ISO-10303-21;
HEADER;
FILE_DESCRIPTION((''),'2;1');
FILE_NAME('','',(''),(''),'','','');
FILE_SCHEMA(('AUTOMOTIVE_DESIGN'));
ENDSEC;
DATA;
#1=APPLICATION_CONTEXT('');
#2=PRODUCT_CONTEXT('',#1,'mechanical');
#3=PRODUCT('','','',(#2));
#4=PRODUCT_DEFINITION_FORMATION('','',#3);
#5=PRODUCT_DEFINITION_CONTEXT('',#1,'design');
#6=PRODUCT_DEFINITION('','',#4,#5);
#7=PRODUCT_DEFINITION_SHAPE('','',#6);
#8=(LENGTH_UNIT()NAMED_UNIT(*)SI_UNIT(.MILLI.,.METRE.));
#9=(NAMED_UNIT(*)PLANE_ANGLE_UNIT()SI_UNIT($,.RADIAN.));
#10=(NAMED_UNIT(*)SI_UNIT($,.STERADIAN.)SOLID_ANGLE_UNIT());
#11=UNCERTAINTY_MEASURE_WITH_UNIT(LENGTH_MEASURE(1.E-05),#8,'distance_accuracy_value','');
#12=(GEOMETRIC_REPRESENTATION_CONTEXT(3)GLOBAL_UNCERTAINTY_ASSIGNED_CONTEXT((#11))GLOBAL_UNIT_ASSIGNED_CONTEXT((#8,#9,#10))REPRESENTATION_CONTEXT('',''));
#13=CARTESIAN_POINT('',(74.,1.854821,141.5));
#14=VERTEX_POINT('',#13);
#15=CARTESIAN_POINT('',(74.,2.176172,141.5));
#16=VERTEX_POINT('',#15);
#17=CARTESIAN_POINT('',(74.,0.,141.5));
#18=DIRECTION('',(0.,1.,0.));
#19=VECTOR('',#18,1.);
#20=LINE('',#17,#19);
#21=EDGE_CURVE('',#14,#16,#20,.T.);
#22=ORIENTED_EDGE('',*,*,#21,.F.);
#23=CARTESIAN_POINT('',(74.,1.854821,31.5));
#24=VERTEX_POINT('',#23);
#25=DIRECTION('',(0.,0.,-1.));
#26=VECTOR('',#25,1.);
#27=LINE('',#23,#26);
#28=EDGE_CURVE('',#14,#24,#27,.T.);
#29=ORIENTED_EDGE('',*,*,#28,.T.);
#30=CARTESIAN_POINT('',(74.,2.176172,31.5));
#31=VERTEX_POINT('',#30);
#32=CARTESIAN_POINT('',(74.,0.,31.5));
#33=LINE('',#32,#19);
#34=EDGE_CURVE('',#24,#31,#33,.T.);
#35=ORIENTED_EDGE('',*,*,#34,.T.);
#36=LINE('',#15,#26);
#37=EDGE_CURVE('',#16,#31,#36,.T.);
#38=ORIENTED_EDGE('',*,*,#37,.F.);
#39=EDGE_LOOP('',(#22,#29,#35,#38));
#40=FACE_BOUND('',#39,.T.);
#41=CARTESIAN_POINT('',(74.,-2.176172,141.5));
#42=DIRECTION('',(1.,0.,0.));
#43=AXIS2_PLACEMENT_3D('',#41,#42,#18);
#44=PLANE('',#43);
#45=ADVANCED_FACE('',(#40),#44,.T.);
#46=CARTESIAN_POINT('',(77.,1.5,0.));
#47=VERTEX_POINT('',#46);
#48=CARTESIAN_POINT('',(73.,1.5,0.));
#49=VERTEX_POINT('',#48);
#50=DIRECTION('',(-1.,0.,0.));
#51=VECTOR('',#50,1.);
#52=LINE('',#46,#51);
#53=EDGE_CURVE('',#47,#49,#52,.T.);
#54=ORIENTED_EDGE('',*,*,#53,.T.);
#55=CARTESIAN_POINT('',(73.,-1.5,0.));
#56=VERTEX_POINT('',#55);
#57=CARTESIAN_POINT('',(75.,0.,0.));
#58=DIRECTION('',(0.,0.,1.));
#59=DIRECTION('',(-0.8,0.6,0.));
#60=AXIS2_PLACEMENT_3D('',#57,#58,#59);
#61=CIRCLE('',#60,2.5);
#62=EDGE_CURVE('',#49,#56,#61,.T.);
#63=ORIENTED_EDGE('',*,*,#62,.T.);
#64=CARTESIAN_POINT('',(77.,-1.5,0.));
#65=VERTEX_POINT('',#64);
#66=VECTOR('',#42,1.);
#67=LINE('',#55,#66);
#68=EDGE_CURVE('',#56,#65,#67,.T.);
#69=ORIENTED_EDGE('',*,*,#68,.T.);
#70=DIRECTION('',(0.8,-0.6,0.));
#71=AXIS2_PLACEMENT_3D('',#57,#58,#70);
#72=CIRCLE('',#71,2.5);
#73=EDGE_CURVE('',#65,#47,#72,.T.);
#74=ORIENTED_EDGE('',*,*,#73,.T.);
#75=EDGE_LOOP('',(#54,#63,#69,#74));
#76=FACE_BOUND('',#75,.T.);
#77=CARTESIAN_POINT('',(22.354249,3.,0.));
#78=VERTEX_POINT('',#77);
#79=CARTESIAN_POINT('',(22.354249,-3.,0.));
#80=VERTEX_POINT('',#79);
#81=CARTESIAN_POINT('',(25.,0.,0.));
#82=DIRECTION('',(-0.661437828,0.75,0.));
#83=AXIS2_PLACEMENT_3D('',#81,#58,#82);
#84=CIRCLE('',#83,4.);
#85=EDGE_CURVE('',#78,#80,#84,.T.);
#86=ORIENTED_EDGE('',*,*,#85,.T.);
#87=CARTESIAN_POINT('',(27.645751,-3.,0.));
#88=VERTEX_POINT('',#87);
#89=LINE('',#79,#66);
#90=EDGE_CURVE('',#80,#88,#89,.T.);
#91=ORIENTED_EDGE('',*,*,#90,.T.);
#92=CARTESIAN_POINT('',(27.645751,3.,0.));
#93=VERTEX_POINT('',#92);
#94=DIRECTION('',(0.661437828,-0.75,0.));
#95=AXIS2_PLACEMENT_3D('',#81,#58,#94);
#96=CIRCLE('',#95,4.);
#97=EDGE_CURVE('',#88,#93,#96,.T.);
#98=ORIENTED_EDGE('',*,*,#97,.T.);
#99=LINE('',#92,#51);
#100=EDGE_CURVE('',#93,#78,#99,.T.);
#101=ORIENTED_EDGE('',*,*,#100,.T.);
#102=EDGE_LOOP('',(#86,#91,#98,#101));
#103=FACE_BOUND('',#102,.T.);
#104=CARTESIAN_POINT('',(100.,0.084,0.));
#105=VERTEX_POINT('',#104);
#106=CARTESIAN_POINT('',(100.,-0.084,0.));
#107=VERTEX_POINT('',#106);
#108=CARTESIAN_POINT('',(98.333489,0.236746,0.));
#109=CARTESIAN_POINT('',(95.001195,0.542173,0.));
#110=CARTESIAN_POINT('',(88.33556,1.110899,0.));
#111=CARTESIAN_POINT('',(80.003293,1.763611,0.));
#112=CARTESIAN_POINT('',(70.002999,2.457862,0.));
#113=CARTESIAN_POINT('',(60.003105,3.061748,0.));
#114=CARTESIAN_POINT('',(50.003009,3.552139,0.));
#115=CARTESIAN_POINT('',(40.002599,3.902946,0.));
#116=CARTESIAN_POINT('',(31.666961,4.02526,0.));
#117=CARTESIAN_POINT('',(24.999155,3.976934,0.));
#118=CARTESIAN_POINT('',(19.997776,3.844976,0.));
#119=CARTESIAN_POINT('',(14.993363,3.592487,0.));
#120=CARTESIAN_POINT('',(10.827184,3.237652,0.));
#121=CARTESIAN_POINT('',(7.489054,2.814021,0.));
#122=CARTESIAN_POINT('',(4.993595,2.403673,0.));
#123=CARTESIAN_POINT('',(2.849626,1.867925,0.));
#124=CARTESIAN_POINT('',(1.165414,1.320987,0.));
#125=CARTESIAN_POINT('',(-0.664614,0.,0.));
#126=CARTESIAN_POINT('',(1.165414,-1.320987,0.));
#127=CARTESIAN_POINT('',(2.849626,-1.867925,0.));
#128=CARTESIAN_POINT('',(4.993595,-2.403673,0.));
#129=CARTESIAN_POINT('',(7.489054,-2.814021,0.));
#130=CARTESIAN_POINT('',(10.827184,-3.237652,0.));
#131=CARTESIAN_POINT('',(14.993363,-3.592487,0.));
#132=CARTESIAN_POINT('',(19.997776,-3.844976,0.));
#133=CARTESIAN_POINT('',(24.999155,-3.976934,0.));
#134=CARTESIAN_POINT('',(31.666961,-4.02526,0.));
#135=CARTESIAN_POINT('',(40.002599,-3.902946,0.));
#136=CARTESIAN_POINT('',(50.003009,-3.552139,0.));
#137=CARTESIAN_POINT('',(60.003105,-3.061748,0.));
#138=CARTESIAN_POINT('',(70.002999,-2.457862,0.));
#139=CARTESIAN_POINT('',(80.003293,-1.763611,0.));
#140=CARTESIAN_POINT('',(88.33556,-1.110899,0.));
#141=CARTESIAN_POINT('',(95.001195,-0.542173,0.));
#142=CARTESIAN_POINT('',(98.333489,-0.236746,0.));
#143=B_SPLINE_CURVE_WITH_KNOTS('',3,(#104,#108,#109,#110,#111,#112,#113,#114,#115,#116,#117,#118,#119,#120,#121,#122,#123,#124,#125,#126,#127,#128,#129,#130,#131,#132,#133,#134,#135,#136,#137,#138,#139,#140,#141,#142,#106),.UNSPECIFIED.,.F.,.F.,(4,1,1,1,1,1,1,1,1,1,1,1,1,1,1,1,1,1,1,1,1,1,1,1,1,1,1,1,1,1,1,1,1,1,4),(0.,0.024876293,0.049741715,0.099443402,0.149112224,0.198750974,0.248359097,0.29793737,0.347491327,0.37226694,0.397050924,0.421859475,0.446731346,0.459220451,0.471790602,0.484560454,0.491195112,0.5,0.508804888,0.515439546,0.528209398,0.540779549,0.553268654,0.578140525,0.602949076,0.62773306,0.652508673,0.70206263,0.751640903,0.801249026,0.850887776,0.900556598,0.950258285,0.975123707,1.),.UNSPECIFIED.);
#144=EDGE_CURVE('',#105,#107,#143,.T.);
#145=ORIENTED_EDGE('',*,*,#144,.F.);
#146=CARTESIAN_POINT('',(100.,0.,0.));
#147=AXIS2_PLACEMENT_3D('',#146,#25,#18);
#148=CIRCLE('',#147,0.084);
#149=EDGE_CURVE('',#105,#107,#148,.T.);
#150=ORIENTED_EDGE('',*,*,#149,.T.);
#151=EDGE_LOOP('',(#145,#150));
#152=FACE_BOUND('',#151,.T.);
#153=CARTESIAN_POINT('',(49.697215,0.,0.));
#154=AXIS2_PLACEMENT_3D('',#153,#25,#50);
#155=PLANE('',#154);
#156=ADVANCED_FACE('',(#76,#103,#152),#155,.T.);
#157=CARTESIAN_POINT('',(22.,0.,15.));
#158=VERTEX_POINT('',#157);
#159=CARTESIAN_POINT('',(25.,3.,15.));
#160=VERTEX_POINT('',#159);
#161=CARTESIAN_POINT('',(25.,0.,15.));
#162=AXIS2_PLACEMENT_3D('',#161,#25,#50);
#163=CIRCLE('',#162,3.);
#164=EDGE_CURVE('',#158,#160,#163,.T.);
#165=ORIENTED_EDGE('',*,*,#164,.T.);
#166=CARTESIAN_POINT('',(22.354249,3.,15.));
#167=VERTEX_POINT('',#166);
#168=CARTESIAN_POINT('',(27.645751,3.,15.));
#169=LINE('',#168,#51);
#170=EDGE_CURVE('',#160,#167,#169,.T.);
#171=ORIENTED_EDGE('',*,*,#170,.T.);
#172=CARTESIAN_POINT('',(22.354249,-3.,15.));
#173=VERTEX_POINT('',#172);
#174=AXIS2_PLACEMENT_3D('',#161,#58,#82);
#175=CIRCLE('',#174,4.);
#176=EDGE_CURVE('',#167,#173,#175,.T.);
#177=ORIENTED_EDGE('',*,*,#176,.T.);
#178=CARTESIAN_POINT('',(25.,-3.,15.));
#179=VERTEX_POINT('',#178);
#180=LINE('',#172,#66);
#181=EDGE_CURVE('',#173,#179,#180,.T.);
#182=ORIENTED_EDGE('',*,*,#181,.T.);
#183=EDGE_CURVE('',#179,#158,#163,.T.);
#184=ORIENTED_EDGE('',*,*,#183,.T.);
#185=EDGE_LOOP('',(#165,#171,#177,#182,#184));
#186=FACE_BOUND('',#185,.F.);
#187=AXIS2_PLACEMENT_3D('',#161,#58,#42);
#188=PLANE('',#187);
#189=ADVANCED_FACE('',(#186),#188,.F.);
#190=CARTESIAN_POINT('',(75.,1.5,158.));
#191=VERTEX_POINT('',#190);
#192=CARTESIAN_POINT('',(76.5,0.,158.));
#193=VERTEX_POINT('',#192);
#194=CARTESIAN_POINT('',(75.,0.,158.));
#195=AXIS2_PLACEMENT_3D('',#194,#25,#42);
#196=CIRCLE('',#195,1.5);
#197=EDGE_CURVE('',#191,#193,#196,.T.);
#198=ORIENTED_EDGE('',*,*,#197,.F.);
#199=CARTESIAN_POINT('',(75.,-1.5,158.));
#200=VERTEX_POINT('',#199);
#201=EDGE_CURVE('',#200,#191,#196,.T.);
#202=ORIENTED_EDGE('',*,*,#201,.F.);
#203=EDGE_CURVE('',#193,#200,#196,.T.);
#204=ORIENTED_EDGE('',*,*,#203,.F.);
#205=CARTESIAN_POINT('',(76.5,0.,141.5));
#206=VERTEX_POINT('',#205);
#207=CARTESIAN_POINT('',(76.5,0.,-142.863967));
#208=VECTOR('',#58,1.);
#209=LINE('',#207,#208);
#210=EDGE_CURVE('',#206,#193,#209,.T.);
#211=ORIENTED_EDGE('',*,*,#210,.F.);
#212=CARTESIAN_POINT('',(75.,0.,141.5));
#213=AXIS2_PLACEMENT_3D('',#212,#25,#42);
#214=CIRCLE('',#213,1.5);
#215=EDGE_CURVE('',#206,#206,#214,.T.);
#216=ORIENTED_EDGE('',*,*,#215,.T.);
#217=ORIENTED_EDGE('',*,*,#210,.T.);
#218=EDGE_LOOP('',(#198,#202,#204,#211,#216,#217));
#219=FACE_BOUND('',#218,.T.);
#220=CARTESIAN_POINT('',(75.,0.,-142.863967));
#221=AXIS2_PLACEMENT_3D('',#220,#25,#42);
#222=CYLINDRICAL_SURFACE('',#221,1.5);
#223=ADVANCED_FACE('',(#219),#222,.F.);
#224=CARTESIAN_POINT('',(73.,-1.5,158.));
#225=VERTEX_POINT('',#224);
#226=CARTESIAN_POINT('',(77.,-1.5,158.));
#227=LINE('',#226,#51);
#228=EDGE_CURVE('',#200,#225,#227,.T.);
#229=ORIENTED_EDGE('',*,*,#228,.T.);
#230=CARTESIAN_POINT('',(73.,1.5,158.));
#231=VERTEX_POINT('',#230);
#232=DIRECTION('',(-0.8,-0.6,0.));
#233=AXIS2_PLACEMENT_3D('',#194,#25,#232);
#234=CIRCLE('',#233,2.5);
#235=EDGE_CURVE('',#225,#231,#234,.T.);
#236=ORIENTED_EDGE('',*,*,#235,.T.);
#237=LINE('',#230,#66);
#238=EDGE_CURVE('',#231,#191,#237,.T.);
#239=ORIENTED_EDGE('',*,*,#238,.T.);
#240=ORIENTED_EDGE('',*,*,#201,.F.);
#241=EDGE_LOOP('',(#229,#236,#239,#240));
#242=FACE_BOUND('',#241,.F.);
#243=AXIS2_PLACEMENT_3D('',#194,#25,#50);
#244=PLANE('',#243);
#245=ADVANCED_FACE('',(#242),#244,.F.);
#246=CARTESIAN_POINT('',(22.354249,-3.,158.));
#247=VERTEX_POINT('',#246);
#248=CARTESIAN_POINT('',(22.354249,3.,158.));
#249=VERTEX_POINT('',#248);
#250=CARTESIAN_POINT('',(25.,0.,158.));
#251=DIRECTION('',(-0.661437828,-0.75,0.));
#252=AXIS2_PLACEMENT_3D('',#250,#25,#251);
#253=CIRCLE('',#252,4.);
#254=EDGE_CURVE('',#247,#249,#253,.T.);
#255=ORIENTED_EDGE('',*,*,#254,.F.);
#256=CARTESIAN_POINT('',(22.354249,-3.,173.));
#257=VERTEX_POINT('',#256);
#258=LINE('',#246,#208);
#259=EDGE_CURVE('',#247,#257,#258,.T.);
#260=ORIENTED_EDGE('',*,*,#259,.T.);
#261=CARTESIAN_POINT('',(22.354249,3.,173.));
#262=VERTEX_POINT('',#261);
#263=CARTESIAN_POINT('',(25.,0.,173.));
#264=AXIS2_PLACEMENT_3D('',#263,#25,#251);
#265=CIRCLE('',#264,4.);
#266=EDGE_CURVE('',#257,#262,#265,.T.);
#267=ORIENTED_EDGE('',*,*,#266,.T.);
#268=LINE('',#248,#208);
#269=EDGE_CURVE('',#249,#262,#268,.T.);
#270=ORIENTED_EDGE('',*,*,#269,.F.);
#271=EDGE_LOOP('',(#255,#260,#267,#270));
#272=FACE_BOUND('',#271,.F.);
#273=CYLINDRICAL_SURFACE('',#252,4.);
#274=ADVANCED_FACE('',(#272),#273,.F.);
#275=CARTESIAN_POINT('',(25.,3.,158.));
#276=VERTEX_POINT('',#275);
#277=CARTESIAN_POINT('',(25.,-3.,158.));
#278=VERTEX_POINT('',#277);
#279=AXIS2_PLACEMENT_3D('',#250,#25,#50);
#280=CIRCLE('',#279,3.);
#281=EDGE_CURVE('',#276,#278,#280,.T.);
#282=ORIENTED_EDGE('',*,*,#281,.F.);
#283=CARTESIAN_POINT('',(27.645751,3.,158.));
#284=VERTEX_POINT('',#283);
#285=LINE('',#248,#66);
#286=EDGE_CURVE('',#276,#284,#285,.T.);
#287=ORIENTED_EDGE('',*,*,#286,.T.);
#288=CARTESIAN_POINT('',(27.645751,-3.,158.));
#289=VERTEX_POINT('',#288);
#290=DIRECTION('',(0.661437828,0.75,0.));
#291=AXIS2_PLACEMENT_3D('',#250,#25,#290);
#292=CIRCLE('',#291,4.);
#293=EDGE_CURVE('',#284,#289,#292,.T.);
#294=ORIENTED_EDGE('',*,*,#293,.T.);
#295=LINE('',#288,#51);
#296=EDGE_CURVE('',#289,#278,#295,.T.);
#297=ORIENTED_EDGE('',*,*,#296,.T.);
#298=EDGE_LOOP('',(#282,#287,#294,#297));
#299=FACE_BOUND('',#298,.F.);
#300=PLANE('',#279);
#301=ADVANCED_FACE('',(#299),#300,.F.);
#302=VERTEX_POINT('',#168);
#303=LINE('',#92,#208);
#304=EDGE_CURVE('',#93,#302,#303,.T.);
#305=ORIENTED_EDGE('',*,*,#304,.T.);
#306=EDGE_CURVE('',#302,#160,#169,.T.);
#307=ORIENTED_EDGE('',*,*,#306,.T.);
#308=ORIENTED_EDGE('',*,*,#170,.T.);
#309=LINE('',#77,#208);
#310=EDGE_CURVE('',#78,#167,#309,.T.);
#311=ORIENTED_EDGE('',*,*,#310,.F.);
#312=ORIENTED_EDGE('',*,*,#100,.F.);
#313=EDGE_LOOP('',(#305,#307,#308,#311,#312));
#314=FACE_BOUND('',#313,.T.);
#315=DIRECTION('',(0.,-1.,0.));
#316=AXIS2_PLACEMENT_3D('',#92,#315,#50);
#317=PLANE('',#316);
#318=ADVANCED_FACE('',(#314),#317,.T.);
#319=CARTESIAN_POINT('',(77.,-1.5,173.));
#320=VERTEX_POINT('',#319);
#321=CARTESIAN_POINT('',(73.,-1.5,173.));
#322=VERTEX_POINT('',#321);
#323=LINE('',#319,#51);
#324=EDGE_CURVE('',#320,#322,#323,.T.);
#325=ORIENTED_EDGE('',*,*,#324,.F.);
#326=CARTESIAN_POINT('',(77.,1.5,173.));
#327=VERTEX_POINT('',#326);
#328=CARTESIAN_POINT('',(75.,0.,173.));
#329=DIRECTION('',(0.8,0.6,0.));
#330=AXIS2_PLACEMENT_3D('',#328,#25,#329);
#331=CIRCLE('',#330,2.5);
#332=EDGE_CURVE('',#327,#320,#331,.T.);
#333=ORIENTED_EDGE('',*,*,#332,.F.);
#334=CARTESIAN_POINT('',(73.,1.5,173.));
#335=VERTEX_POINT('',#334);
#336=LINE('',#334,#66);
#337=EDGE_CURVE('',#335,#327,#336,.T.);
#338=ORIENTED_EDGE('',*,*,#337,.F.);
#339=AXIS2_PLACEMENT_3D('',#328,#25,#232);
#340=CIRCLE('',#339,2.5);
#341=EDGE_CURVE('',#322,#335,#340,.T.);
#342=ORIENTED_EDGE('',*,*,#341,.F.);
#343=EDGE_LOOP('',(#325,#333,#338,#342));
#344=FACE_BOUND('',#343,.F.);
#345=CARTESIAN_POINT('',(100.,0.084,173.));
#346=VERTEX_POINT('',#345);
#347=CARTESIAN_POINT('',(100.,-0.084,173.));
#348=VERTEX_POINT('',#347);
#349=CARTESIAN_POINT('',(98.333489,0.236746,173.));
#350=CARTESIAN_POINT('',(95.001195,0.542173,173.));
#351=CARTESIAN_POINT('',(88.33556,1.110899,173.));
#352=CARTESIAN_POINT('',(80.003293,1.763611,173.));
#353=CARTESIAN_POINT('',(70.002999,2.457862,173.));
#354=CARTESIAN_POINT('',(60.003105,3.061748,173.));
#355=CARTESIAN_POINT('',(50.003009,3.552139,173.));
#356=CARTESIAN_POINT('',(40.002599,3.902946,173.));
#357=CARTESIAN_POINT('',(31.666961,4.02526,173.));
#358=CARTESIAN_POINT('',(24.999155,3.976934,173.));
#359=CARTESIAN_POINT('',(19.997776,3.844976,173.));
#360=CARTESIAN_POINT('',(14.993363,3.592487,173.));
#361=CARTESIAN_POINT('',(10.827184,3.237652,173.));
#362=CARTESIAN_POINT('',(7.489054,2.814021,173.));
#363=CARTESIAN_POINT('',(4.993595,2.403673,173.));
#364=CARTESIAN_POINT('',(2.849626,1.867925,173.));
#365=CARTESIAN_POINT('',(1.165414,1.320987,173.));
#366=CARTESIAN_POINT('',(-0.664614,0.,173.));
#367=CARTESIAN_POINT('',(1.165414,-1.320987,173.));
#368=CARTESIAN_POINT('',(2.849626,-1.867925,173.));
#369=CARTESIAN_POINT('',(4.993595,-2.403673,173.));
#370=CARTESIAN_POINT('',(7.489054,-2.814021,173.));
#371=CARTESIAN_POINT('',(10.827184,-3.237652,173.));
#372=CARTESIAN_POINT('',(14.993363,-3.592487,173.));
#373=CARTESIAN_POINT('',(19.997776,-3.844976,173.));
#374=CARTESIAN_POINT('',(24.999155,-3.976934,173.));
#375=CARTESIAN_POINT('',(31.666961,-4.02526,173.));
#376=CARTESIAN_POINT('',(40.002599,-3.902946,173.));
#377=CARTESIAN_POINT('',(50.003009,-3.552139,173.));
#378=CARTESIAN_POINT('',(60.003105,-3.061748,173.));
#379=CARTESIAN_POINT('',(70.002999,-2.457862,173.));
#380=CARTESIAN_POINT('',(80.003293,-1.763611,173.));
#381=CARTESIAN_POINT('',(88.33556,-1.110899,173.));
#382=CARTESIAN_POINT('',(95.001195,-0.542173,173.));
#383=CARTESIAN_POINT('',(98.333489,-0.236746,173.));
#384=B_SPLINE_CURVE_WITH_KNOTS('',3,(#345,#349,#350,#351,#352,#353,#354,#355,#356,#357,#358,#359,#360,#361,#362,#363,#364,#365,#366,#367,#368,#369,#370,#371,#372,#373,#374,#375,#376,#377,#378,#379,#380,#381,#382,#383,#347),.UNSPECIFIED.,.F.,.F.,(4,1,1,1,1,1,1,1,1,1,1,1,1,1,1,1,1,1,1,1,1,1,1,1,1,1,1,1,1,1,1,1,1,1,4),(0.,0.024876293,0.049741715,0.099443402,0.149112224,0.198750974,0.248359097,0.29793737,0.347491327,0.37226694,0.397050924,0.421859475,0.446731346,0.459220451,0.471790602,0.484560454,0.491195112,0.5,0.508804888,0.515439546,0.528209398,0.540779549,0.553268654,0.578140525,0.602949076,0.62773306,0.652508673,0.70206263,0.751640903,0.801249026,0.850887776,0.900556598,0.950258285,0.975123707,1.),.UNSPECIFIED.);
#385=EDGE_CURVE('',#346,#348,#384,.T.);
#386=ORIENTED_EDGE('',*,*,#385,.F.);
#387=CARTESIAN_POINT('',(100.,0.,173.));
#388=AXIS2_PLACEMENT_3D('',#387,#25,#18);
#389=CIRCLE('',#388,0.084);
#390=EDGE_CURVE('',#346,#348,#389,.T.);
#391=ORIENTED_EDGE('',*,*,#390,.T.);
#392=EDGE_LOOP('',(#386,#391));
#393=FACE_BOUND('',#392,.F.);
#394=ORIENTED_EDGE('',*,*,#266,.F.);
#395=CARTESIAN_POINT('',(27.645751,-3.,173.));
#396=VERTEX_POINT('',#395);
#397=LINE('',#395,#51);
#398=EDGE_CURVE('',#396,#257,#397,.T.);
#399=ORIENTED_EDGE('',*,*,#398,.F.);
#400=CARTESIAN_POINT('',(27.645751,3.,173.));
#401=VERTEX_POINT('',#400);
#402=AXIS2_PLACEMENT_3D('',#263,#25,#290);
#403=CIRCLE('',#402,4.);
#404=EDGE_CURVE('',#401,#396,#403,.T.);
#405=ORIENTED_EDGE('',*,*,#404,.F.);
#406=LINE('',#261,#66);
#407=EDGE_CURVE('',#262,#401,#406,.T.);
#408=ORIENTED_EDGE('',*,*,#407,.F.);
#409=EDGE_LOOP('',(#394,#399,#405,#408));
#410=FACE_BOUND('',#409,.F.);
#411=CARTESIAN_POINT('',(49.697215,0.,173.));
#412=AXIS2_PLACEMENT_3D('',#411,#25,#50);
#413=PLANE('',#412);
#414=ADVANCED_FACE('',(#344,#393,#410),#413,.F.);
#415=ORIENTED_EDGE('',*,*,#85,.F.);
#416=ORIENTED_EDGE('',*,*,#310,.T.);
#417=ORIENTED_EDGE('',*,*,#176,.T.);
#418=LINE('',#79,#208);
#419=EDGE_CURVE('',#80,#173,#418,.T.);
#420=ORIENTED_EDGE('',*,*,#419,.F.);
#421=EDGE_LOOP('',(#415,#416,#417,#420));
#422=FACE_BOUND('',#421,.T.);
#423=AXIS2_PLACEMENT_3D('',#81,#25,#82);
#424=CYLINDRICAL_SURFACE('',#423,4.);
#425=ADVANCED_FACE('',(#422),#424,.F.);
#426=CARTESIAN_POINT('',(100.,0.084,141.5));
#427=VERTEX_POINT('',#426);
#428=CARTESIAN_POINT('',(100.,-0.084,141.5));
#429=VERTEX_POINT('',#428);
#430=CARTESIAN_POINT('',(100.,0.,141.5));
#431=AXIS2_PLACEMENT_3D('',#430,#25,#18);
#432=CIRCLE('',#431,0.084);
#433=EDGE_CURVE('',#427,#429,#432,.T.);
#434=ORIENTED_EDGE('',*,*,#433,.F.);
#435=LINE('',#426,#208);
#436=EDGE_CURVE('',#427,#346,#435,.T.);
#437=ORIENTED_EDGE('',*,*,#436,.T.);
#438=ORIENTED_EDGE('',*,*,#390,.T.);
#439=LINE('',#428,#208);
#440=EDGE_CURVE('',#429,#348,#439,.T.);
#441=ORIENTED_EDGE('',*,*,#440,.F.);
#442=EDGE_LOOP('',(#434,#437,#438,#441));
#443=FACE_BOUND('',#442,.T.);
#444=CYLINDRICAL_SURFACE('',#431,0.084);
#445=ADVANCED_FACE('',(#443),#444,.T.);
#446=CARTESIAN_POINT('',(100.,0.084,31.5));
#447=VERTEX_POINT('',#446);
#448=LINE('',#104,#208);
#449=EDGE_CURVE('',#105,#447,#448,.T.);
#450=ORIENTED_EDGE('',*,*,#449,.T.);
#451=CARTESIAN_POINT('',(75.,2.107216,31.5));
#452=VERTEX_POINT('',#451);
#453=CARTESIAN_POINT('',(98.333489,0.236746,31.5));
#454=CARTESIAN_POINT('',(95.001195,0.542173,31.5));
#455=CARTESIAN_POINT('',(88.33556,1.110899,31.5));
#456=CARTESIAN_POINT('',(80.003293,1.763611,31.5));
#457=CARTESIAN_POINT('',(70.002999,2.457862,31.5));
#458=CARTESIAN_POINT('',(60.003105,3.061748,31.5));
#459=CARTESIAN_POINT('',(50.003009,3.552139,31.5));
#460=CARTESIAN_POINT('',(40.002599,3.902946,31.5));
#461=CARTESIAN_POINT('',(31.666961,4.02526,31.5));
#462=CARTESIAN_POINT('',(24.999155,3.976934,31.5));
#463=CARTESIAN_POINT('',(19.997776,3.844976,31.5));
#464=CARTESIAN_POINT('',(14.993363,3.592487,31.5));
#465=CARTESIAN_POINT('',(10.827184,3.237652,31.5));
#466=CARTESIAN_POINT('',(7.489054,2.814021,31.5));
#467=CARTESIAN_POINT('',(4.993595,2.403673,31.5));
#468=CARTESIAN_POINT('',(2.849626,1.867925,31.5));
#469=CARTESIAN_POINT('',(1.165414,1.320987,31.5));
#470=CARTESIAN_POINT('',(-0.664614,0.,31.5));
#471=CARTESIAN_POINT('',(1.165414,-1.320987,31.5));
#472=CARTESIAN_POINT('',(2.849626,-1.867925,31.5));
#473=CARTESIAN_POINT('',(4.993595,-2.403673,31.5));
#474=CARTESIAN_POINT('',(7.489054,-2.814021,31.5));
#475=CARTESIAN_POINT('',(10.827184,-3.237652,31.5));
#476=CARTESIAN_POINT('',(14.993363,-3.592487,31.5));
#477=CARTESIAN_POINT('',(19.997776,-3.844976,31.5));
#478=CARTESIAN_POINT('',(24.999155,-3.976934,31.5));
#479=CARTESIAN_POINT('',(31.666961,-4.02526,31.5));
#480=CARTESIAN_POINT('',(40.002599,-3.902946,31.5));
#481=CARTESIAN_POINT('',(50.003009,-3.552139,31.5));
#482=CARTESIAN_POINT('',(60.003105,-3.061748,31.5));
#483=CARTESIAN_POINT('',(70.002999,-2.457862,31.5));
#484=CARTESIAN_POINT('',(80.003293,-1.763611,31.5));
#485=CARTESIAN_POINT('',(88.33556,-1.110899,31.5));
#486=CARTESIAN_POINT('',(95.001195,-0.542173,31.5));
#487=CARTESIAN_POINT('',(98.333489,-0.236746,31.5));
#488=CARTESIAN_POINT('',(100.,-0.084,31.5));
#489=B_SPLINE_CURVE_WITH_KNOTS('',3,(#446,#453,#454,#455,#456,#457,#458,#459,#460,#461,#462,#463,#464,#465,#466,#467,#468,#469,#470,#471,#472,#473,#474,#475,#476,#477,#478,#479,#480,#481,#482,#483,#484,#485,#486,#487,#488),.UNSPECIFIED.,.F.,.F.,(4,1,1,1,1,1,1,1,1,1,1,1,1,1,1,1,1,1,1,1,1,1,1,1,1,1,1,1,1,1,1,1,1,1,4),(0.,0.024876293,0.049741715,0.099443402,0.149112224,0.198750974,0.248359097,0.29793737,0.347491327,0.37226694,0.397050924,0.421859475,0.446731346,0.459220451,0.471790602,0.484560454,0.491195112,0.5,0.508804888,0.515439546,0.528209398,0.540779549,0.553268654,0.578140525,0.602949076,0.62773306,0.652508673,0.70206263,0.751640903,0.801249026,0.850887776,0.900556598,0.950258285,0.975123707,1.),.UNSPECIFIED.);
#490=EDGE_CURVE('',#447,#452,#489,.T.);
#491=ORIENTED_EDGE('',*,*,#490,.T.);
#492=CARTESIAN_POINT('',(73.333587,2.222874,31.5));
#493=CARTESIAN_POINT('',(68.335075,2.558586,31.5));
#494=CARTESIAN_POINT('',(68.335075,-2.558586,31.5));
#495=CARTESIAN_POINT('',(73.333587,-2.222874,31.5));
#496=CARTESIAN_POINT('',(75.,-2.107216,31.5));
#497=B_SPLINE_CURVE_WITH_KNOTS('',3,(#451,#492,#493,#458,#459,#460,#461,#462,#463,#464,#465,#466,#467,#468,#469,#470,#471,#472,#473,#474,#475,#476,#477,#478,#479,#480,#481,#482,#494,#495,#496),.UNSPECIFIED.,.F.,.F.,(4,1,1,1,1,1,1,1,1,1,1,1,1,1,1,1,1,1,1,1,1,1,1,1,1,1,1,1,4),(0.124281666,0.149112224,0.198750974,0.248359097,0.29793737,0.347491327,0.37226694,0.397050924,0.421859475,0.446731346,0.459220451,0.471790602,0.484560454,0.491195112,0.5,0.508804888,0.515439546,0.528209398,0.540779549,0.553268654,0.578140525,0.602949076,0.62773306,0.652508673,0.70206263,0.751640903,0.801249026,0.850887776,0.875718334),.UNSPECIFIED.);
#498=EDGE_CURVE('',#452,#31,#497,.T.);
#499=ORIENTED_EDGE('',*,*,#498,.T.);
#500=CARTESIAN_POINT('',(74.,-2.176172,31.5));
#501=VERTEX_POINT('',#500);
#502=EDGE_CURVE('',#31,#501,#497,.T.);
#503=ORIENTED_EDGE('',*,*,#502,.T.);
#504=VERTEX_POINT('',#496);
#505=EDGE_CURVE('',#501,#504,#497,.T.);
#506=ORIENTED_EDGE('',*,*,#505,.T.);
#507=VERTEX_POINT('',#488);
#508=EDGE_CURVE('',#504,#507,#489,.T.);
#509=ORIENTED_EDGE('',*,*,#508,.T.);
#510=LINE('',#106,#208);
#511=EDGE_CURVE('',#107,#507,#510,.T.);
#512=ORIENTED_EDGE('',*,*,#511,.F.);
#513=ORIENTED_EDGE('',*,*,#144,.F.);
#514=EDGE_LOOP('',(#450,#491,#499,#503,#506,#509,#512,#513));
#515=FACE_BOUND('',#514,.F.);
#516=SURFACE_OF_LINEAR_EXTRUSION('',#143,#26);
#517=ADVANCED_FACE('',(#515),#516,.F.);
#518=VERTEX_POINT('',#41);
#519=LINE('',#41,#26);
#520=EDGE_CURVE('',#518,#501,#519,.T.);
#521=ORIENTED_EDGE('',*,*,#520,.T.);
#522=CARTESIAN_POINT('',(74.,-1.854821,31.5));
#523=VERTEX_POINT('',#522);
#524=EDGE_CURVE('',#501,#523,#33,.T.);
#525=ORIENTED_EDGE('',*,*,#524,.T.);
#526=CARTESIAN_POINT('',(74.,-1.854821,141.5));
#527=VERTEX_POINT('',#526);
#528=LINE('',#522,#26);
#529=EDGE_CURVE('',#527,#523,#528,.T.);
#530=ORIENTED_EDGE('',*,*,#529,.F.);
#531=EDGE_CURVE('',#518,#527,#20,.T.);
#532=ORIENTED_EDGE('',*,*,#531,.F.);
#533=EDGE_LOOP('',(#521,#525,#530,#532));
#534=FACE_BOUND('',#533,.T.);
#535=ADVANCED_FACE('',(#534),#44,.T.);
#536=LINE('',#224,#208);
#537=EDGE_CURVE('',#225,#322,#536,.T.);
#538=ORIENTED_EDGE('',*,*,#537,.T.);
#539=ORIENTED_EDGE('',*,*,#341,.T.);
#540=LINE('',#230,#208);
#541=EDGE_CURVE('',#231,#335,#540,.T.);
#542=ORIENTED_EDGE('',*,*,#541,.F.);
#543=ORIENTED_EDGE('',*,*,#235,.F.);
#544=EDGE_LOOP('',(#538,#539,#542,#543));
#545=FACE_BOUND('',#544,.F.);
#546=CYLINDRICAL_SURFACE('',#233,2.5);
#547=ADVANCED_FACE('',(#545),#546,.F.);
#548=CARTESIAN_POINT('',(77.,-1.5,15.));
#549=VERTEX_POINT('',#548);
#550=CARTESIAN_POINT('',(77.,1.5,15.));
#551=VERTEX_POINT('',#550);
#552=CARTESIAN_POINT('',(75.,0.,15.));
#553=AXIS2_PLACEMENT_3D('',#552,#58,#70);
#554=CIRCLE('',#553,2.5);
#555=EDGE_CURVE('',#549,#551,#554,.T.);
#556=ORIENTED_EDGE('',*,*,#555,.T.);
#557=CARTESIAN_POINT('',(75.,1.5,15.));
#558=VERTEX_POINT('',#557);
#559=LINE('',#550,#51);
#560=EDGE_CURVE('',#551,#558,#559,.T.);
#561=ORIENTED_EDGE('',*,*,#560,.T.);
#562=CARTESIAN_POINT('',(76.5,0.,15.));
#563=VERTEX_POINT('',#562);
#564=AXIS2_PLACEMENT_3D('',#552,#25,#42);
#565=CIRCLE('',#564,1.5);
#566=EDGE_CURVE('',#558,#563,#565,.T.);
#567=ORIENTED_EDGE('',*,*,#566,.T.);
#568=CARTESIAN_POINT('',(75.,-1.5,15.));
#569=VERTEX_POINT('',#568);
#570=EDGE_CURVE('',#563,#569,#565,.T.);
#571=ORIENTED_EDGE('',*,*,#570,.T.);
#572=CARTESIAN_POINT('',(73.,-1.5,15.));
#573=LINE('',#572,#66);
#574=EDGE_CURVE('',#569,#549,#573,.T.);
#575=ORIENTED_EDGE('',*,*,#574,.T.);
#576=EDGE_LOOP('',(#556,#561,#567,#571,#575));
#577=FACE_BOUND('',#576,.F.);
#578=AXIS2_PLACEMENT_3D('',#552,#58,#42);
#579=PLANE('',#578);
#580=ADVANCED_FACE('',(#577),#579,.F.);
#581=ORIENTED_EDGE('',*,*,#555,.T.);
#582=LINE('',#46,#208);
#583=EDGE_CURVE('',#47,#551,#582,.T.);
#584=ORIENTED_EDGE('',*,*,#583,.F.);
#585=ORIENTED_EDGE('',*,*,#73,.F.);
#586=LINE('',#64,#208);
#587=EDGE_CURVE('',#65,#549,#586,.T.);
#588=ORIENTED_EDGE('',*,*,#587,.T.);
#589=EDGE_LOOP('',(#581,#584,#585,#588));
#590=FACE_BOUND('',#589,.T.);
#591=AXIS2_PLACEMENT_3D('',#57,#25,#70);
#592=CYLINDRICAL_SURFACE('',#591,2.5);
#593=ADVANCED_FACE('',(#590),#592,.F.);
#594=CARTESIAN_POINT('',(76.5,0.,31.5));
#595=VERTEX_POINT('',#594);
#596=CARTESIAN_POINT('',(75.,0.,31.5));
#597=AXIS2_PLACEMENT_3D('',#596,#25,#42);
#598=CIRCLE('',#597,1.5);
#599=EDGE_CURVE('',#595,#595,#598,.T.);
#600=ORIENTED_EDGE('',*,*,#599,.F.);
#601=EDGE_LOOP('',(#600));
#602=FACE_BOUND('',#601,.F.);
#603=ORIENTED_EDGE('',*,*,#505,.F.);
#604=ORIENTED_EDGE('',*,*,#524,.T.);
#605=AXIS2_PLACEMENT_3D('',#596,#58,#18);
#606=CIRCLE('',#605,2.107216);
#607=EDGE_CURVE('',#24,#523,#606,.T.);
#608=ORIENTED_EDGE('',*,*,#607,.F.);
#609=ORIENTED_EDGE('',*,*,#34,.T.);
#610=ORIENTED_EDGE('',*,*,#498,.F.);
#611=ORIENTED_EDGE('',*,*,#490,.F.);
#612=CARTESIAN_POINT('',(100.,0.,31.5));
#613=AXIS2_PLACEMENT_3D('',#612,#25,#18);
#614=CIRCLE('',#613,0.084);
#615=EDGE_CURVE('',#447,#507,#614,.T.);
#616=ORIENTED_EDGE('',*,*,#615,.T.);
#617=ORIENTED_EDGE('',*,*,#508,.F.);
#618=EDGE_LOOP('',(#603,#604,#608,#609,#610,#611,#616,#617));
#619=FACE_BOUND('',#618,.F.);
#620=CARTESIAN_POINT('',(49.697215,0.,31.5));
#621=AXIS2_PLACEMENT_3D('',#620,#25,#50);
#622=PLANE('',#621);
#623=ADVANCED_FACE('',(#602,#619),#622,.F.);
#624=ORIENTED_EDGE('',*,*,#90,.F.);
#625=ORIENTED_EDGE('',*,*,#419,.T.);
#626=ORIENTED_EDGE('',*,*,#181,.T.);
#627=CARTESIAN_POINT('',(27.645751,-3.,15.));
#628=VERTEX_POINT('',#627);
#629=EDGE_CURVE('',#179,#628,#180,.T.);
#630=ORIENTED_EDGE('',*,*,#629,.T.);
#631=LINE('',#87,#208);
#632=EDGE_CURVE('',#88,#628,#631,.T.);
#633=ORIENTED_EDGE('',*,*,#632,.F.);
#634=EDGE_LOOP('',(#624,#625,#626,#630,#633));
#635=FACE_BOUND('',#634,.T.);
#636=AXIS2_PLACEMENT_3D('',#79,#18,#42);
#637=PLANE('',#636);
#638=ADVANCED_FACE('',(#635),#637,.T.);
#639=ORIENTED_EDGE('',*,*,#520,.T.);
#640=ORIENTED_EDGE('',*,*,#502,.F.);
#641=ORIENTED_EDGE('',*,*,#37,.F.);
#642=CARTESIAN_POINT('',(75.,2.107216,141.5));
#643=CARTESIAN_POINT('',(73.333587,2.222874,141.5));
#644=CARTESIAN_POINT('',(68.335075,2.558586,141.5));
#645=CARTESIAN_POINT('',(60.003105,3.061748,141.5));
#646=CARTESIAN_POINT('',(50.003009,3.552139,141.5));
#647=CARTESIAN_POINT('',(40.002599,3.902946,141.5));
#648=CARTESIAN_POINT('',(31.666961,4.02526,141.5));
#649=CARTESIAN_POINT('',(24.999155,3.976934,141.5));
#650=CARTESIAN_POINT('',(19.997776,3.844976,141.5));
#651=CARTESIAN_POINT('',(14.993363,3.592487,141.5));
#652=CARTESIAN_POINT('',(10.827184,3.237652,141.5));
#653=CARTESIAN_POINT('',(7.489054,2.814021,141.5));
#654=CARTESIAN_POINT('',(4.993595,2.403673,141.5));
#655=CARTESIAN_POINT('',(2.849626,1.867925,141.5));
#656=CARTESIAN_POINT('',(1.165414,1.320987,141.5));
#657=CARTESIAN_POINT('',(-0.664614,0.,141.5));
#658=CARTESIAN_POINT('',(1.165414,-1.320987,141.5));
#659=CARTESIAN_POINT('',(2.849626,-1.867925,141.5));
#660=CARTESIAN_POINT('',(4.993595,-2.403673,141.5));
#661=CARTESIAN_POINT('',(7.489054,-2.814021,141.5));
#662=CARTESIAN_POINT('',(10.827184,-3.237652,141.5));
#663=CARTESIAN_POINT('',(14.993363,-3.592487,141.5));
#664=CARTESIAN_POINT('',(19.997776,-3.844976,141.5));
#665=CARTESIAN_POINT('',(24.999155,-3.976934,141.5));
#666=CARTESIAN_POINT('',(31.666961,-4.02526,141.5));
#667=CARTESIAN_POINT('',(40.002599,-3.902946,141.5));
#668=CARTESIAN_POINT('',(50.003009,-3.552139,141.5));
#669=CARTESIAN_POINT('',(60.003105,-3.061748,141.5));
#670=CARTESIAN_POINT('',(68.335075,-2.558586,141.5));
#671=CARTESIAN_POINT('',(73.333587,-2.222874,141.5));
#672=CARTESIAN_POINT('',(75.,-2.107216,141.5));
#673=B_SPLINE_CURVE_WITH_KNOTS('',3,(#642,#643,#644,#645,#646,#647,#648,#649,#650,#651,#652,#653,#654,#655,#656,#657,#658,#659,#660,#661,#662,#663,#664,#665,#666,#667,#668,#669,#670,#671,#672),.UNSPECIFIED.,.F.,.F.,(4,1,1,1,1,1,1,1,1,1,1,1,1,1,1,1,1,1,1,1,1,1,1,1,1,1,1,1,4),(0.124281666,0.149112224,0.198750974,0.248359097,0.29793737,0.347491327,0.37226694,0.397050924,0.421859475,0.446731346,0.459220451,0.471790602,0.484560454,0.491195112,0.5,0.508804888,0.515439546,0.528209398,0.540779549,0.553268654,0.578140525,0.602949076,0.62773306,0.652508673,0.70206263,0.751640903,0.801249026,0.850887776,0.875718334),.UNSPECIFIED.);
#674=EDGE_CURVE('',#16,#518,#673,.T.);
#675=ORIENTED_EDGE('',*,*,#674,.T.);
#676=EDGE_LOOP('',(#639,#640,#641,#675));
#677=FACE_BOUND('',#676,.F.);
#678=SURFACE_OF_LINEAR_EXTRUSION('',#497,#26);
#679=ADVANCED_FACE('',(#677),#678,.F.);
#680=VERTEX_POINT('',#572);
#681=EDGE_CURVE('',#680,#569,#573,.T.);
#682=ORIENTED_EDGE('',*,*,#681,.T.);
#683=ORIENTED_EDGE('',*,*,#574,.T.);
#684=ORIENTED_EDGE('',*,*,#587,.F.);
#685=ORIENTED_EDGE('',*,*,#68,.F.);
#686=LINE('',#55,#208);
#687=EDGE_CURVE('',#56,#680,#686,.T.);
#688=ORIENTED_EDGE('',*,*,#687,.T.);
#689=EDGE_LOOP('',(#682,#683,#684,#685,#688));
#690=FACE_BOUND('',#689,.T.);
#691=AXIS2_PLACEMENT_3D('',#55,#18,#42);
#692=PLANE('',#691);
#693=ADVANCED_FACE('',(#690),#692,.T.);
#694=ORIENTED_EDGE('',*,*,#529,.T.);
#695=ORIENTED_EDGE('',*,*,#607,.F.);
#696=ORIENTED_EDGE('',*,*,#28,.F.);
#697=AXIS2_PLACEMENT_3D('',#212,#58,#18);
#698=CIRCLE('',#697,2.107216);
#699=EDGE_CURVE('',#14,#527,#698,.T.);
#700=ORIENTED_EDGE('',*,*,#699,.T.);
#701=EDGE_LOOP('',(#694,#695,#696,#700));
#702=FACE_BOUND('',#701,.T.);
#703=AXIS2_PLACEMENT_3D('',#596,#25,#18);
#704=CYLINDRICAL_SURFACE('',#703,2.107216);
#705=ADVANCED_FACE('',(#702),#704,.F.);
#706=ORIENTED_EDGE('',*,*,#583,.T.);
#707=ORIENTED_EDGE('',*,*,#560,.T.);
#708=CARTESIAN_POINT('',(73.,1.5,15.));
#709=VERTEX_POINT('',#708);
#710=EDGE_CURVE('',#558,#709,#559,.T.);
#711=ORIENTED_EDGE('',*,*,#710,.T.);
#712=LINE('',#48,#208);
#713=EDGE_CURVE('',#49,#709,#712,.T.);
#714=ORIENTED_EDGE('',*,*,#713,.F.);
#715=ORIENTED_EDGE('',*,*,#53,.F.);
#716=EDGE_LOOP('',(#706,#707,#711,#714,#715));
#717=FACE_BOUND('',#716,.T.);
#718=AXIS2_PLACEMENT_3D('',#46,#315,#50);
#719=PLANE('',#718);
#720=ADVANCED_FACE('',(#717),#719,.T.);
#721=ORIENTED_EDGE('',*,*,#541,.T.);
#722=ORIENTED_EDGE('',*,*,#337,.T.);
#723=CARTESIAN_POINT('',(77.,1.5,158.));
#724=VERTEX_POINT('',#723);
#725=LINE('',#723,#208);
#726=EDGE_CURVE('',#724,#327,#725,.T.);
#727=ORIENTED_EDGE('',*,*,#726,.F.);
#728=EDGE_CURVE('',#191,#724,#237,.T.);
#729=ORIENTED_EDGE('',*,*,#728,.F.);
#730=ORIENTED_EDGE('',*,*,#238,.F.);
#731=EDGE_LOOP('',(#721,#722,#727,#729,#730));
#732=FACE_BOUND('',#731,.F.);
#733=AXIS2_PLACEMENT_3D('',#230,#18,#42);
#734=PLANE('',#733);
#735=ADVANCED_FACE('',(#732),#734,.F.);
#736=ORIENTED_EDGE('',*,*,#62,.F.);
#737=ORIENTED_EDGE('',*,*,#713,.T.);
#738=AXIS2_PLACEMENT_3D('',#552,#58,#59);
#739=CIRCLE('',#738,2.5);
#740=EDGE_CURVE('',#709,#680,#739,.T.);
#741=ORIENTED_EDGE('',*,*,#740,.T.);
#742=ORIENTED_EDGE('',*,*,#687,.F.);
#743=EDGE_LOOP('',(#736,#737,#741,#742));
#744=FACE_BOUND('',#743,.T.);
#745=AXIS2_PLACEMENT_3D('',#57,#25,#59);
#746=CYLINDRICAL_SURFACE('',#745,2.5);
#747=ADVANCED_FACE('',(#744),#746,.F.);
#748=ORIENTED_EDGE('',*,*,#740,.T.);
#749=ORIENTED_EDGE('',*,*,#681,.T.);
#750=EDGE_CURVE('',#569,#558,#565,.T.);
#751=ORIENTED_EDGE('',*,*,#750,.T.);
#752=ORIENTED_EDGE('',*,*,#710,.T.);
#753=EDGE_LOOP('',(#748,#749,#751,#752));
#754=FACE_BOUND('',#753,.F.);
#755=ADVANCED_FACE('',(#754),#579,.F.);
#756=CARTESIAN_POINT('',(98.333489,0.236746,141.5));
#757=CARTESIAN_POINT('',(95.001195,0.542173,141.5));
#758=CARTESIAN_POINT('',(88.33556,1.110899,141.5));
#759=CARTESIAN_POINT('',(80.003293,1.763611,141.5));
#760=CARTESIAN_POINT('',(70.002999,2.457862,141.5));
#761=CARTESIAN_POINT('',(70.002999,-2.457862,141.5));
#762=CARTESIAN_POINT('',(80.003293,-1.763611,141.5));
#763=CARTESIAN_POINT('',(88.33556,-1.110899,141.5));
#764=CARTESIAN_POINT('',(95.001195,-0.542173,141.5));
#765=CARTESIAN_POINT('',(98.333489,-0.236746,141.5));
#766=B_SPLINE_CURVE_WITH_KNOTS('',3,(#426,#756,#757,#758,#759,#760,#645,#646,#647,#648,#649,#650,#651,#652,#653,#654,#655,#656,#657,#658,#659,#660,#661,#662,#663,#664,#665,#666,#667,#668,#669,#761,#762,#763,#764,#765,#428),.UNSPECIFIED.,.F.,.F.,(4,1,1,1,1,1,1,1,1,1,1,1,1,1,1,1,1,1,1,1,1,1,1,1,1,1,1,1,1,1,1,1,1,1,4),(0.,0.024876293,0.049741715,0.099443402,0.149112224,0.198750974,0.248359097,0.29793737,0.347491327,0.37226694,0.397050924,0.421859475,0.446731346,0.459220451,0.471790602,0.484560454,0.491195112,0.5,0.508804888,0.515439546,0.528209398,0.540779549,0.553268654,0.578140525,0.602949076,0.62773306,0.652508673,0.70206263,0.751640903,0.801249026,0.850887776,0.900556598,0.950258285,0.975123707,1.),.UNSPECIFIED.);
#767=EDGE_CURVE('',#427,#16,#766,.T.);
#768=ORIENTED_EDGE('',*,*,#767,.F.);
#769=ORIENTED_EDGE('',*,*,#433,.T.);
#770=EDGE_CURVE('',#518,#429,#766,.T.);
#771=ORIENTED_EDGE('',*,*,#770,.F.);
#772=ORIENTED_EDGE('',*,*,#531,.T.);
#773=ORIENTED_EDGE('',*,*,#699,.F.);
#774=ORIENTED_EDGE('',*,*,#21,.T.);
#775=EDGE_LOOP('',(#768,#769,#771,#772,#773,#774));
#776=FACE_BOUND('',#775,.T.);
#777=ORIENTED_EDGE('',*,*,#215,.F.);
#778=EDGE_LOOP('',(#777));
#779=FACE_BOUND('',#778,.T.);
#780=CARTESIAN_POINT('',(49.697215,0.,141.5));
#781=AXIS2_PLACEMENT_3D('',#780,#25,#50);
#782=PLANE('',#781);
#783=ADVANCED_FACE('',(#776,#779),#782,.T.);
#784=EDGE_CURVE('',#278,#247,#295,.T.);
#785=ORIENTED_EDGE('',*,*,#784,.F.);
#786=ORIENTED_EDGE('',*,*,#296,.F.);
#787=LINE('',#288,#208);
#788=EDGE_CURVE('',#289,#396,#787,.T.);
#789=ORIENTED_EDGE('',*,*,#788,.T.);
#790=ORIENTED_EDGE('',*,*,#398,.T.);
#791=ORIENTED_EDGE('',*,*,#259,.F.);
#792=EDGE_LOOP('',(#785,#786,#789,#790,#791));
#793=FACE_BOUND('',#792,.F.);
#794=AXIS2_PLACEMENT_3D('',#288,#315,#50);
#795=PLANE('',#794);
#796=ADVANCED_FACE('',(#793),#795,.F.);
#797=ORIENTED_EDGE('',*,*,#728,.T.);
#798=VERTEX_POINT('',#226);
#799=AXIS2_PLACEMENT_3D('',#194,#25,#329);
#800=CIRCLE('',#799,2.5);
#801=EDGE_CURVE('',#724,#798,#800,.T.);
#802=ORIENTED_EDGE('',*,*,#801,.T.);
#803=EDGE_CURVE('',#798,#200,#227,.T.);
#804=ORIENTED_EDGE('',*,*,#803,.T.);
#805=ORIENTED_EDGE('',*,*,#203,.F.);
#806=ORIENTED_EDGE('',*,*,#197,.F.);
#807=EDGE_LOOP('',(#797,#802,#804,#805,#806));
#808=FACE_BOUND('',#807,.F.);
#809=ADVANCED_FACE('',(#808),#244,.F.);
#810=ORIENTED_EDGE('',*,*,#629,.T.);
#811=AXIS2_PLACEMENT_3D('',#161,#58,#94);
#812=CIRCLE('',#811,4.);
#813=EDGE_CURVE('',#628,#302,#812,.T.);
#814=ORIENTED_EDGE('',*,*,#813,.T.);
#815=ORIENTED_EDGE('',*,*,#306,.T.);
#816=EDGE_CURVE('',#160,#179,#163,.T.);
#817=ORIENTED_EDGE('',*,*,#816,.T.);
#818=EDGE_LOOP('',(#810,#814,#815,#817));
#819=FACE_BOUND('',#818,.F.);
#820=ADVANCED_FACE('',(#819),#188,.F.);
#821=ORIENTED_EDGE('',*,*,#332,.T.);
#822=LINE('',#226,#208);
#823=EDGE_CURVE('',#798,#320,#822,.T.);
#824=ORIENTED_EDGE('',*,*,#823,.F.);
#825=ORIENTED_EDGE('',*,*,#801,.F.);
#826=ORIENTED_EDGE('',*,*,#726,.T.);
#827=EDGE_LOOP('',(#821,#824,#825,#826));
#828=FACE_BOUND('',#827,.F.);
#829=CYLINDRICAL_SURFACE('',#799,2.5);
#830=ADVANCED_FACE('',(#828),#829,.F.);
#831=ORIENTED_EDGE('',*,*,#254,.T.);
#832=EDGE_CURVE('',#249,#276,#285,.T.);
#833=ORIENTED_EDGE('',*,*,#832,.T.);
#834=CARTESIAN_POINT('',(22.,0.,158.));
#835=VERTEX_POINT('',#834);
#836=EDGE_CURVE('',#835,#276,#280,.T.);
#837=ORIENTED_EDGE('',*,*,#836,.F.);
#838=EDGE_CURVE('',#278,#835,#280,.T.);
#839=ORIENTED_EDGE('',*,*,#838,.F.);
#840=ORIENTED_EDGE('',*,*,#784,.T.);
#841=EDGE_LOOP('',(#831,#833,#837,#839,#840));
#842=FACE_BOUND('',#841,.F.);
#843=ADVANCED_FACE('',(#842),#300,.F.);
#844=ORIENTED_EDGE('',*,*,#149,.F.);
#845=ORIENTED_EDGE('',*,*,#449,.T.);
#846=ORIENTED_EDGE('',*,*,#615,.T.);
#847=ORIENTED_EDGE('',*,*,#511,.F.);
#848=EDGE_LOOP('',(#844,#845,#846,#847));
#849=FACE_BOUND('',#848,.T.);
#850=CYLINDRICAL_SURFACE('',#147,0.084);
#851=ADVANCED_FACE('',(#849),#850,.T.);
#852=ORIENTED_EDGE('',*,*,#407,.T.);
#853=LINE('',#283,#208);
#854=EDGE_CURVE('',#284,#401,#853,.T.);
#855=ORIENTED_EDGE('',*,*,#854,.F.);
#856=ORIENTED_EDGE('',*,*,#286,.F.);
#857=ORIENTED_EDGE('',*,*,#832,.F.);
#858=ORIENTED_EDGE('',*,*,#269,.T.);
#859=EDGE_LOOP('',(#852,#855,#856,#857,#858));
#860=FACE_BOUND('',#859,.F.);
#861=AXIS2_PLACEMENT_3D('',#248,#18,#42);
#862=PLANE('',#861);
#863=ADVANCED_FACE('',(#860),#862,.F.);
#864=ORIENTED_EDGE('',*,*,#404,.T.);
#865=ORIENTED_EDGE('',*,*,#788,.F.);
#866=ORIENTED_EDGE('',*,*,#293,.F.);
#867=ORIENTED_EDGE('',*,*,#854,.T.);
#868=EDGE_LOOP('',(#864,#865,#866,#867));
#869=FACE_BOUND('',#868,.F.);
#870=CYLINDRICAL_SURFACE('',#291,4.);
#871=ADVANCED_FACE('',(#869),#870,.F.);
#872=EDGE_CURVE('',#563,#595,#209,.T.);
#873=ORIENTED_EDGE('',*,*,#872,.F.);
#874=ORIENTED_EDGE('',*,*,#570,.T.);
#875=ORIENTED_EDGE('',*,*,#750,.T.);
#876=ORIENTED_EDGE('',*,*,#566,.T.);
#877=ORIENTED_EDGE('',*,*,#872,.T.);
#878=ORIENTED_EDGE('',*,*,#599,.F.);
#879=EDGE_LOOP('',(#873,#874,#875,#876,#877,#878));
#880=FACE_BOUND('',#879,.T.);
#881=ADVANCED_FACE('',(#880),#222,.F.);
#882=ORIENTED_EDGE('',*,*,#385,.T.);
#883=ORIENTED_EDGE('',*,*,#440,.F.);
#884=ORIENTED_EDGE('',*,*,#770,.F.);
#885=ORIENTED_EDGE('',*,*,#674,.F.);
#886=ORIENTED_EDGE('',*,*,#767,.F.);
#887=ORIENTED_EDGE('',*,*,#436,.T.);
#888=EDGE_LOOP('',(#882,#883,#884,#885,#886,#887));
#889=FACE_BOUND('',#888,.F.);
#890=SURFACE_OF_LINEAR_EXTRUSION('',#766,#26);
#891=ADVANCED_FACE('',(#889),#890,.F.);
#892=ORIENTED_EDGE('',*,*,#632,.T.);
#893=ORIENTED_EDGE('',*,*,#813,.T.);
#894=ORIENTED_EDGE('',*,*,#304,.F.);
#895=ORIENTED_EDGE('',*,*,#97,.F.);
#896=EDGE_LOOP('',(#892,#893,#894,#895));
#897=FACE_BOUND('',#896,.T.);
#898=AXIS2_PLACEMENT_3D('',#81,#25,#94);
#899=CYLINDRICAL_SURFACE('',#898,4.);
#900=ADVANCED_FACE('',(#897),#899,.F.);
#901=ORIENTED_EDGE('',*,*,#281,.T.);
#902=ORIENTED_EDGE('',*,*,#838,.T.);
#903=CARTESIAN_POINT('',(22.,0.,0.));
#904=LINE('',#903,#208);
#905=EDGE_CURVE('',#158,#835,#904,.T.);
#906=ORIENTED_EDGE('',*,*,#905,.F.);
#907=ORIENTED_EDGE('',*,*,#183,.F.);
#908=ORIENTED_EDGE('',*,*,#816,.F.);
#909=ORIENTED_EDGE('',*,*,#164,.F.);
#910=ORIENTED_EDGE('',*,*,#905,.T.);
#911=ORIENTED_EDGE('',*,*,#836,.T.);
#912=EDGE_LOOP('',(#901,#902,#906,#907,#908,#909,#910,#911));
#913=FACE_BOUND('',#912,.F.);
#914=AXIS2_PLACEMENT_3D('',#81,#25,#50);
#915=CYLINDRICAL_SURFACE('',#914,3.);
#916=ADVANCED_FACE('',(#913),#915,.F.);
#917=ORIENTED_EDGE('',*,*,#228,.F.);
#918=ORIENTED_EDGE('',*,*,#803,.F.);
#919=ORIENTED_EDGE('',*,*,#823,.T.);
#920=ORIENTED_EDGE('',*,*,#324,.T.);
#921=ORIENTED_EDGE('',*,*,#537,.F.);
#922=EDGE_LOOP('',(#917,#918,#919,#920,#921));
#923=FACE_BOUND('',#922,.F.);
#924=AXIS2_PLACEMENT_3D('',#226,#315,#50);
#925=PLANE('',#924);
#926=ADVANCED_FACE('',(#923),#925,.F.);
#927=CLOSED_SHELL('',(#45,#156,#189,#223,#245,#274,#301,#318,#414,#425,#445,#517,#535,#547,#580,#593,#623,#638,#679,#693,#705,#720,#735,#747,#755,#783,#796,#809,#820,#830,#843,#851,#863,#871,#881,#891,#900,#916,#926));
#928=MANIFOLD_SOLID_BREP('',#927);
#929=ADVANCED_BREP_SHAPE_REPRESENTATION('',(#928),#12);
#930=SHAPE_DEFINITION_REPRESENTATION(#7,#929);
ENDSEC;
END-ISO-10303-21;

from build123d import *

# Parameters (mm, degrees)
FOAMALTA_DEPTH                 = 31.5
FOAMMEDIA_DEPTH                = 110
SCHIZZO4_W                     = 1
SCHIZZO4_H                     = 4.352344546
SMUSSOPARTEMOBILE_DEPTH        = 110
FOAMBASSA_DEPTH                = 31.5
FOROPERNORUDDEVATOR_DEPTH      = 174.363967164
FOROPERNORUDDEVATOR_DEPTH_BACK = 174.363967164
SCHIZZO5_R                     = 1.5
SCHIZZO8_R                     = 3
FOROLONGHERONE_DEPTH           = 200.904514999
AGGANCIOLONGHERONEALTO_DEPTH   = 15
AGGANCIOPERNOALTO_DEPTH        = 15
AGGANCILATOBASSO_START         = -15
AGGANCILATOBASSO_DEPTH         = 15


with BuildPart() as part:
    # Schizzo1 → FoamAlta (new body)
    with BuildSketch(Plane.XY):
        with BuildLine():
            ThreePointArc((100, 0.084), (100.084, 0), (100, -0.084))
            add(Edge.make_bspline(
                [(100, 0.084), (98.333488815, 0.23674648), (95.001194725, 0.542172689), (88.335559621, 1.11089898), (80.003293356, 1.763610995), (70.002998933, 2.457861693), (60.003104625, 3.061747723), (50.003008601, 3.552139212), (40.002598558, 3.902946494), (31.666961486, 4.025260151), (24.9991546, 3.976933791), (19.997775587, 3.844976398), (14.993363131, 3.592486959), (10.827184065, 3.237651579), (7.489054388, 2.814021367), (4.99359465, 2.403673059), (2.84962634, 1.867925494), (1.165413503, 1.320987252), (-0.664613784, 0), (1.165413503, -1.320987252), (2.84962634, -1.867925494), (4.99359465, -2.403673059), (7.489054388, -2.814021367), (10.827184065, -3.237651579), (14.993363131, -3.592486959), (19.997775587, -3.844976398), (24.9991546, -3.976933791), (31.666961486, -4.025260151), (40.002598558, -3.902946494), (50.003008601, -3.552139212), (60.003104625, -3.061747723), (70.002998933, -2.457861693), (80.003293356, -1.763610995), (88.335559621, -1.11089898), (95.001194725, -0.542172689), (98.333488815, -0.23674648), (100, -0.084)],
                knots=[0, 0, 0, 0, 0.024876293, 0.049741715, 0.099443402, 0.149112224, 0.198750974, 0.248359097, 0.29793737, 0.347491327, 0.37226694, 0.397050924, 0.421859475, 0.446731346, 0.459220451, 0.471790602, 0.484560454, 0.491195112, 0.5, 0.508804888, 0.515439546, 0.528209398, 0.540779549, 0.553268654, 0.578140525, 0.602949076, 0.62773306, 0.652508673, 0.70206263, 0.751640903, 0.801249026, 0.850887776, 0.900556598, 0.950258285, 0.975123707, 1, 1, 1, 1], degree=3))
        make_face()
    extrude(amount=FOAMALTA_DEPTH)

    # Schizzo2 → FoamMedia (add)
    with BuildSketch(Plane.XY.offset(31.5)):
        with BuildLine():
            ThreePointArc((75, 2.107216055), (72.892783944, 0), (75, -2.107216055))
            add(Edge.make_bspline(
                [(75, 2.107216055), (73.333587352, 2.222873526), (68.33507528, 2.558586337), (60.003104625, 3.061747723), (50.003008601, 3.552139212), (40.002598558, 3.902946494), (31.666961486, 4.025260151), (24.9991546, 3.976933791), (19.997775587, 3.844976398), (14.993363131, 3.592486959), (10.827184065, 3.237651579), (7.489054388, 2.814021367), (4.99359465, 2.403673059), (2.84962634, 1.867925494), (1.165413503, 1.320987252), (-0.664613784, 0), (1.165413503, -1.320987252), (2.84962634, -1.867925494), (4.99359465, -2.403673059), (7.489054388, -2.814021367), (10.827184065, -3.237651579), (14.993363131, -3.592486959), (19.997775587, -3.844976398), (24.9991546, -3.976933791), (31.666961486, -4.025260151), (40.002598558, -3.902946494), (50.003008601, -3.552139212), (60.003104625, -3.061747723), (68.33507528, -2.558586337), (73.333587352, -2.222873526), (75, -2.107216055)],
                knots=[0.124281666, 0.124281666, 0.124281666, 0.124281666, 0.149112224, 0.198750974, 0.248359097, 0.29793737, 0.347491327, 0.37226694, 0.397050924, 0.421859475, 0.446731346, 0.459220451, 0.471790602, 0.484560454, 0.491195112, 0.5, 0.508804888, 0.515439546, 0.528209398, 0.540779549, 0.553268654, 0.578140525, 0.602949076, 0.62773306, 0.652508673, 0.70206263, 0.751640903, 0.801249026, 0.850887776, 0.875718334, 0.875718334, 0.875718334, 0.875718334], degree=3))
        make_face()
    extrude(amount=FOAMMEDIA_DEPTH)

    # Schizzo4 → SmussoParteMobile (cut)
    with BuildSketch(Plane.XY.offset(141.5)):
        with Locations((74.5, 0)):
            Rectangle(SCHIZZO4_W, SCHIZZO4_H)
    extrude(amount=-SMUSSOPARTEMOBILE_DEPTH, mode=Mode.SUBTRACT)

    # Schizzo6 → FoamBassa (add)
    with BuildSketch(Plane.XY.offset(141.5)):
        with BuildLine():
            ThreePointArc((100, 0.084), (100.084, 0), (100, -0.084))
            add(Edge.make_bspline(
                [(100, 0.084), (98.333488815, 0.23674648), (95.001194725, 0.542172689), (88.335559621, 1.11089898), (80.003293356, 1.763610995), (70.002998933, 2.457861693), (60.003104625, 3.061747723), (50.003008601, 3.552139212), (40.002598558, 3.902946494), (31.666961486, 4.025260151), (24.9991546, 3.976933791), (19.997775587, 3.844976398), (14.993363131, 3.592486959), (10.827184065, 3.237651579), (7.489054388, 2.814021367), (4.99359465, 2.403673059), (2.84962634, 1.867925494), (1.165413503, 1.320987252), (-0.664613784, 0), (1.165413503, -1.320987252), (2.84962634, -1.867925494), (4.99359465, -2.403673059), (7.489054388, -2.814021367), (10.827184065, -3.237651579), (14.993363131, -3.592486959), (19.997775587, -3.844976398), (24.9991546, -3.976933791), (31.666961486, -4.025260151), (40.002598558, -3.902946494), (50.003008601, -3.552139212), (60.003104625, -3.061747723), (70.002998933, -2.457861693), (80.003293356, -1.763610995), (88.335559621, -1.11089898), (95.001194725, -0.542172689), (98.333488815, -0.23674648), (100, -0.084)],
                knots=[0, 0, 0, 0, 0.024876293, 0.049741715, 0.099443402, 0.149112224, 0.198750974, 0.248359097, 0.29793737, 0.347491327, 0.37226694, 0.397050924, 0.421859475, 0.446731346, 0.459220451, 0.471790602, 0.484560454, 0.491195112, 0.5, 0.508804888, 0.515439546, 0.528209398, 0.540779549, 0.553268654, 0.578140525, 0.602949076, 0.62773306, 0.652508673, 0.70206263, 0.751640903, 0.801249026, 0.850887776, 0.900556598, 0.950258285, 0.975123707, 1, 1, 1, 1], degree=3))
        make_face()
    extrude(amount=FOAMBASSA_DEPTH)

    # Schizzo5 → ForoPernoRuddevator (cut, two sides: drawn at the far end of the back side and taken through both)
    with BuildSketch(Plane.XY.offset(31.5).offset(-FOROPERNORUDDEVATOR_DEPTH_BACK)):
        with Locations((75, 0)):
            Circle(SCHIZZO5_R)
    extrude(amount=FOROPERNORUDDEVATOR_DEPTH + FOROPERNORUDDEVATOR_DEPTH_BACK, mode=Mode.SUBTRACT)

    # Schizzo8 → ForoLongherone (cut, through all)
    with BuildSketch(Plane(origin=(0, 0, 0), x_dir=(-1, 0, 0), z_dir=(0, 0, -1))):
        with Locations((-25, 0)):
            Circle(SCHIZZO8_R)
    extrude(amount=-FOROLONGHERONE_DEPTH, mode=Mode.SUBTRACT)

    # Schizzo9 → AggancioLongheroneAlto (cut)
    with BuildSketch(Plane(origin=(0, 0, 0), x_dir=(-1, 0, 0), z_dir=(0, 0, -1))):
        with BuildLine():
            Line((-27.645751311, 3), (-22.354248689, 3))
            ThreePointArc((-22.354248689, 3), (-21, 0), (-22.354248689, -3))
            Line((-22.354248689, -3), (-27.645751311, -3))
            ThreePointArc((-27.645751311, -3), (-29, 0), (-27.645751311, 3))
        make_face()
    extrude(amount=-AGGANCIOLONGHERONEALTO_DEPTH, mode=Mode.SUBTRACT)

    # Schizzo10 → AggancioPernoAlto (cut)
    with BuildSketch(Plane(origin=(0, 0, 0), x_dir=(-1, 0, 0), z_dir=(0, 0, -1))):
        with BuildLine():
            Line((-77, 1.5), (-73, 1.5))
            ThreePointArc((-73, 1.5), (-72.5, 0), (-73, -1.5))
            Line((-73, -1.5), (-77, -1.5))
            ThreePointArc((-77, -1.5), (-77.5, 0), (-77, 1.5))
        make_face()
    extrude(amount=-AGGANCIOPERNOALTO_DEPTH, mode=Mode.SUBTRACT)

    # Schizzo11 → AgganciLatoBasso (cut)
    with BuildSketch(Plane.XY.offset(173).offset(AGGANCILATOBASSO_START)):
        with BuildLine():
            Line((22.354248689, 3), (27.645751311, 3))
            ThreePointArc((27.645751311, 3), (29, 0), (27.645751311, -3))
            Line((27.645751311, -3), (22.354248689, -3))
            ThreePointArc((22.354248689, -3), (21, 0), (22.354248689, 3))
        make_face()
        with BuildLine():
            Line((73, 1.5), (77, 1.5))
            ThreePointArc((77, 1.5), (77.5, 0), (77, -1.5))
            Line((77, -1.5), (73, -1.5))
            ThreePointArc((73, -1.5), (72.5, 0), (73, 1.5))
        make_face()
    extrude(amount=AGGANCILATOBASSO_DEPTH, mode=Mode.SUBTRACT)


solid = part.part
